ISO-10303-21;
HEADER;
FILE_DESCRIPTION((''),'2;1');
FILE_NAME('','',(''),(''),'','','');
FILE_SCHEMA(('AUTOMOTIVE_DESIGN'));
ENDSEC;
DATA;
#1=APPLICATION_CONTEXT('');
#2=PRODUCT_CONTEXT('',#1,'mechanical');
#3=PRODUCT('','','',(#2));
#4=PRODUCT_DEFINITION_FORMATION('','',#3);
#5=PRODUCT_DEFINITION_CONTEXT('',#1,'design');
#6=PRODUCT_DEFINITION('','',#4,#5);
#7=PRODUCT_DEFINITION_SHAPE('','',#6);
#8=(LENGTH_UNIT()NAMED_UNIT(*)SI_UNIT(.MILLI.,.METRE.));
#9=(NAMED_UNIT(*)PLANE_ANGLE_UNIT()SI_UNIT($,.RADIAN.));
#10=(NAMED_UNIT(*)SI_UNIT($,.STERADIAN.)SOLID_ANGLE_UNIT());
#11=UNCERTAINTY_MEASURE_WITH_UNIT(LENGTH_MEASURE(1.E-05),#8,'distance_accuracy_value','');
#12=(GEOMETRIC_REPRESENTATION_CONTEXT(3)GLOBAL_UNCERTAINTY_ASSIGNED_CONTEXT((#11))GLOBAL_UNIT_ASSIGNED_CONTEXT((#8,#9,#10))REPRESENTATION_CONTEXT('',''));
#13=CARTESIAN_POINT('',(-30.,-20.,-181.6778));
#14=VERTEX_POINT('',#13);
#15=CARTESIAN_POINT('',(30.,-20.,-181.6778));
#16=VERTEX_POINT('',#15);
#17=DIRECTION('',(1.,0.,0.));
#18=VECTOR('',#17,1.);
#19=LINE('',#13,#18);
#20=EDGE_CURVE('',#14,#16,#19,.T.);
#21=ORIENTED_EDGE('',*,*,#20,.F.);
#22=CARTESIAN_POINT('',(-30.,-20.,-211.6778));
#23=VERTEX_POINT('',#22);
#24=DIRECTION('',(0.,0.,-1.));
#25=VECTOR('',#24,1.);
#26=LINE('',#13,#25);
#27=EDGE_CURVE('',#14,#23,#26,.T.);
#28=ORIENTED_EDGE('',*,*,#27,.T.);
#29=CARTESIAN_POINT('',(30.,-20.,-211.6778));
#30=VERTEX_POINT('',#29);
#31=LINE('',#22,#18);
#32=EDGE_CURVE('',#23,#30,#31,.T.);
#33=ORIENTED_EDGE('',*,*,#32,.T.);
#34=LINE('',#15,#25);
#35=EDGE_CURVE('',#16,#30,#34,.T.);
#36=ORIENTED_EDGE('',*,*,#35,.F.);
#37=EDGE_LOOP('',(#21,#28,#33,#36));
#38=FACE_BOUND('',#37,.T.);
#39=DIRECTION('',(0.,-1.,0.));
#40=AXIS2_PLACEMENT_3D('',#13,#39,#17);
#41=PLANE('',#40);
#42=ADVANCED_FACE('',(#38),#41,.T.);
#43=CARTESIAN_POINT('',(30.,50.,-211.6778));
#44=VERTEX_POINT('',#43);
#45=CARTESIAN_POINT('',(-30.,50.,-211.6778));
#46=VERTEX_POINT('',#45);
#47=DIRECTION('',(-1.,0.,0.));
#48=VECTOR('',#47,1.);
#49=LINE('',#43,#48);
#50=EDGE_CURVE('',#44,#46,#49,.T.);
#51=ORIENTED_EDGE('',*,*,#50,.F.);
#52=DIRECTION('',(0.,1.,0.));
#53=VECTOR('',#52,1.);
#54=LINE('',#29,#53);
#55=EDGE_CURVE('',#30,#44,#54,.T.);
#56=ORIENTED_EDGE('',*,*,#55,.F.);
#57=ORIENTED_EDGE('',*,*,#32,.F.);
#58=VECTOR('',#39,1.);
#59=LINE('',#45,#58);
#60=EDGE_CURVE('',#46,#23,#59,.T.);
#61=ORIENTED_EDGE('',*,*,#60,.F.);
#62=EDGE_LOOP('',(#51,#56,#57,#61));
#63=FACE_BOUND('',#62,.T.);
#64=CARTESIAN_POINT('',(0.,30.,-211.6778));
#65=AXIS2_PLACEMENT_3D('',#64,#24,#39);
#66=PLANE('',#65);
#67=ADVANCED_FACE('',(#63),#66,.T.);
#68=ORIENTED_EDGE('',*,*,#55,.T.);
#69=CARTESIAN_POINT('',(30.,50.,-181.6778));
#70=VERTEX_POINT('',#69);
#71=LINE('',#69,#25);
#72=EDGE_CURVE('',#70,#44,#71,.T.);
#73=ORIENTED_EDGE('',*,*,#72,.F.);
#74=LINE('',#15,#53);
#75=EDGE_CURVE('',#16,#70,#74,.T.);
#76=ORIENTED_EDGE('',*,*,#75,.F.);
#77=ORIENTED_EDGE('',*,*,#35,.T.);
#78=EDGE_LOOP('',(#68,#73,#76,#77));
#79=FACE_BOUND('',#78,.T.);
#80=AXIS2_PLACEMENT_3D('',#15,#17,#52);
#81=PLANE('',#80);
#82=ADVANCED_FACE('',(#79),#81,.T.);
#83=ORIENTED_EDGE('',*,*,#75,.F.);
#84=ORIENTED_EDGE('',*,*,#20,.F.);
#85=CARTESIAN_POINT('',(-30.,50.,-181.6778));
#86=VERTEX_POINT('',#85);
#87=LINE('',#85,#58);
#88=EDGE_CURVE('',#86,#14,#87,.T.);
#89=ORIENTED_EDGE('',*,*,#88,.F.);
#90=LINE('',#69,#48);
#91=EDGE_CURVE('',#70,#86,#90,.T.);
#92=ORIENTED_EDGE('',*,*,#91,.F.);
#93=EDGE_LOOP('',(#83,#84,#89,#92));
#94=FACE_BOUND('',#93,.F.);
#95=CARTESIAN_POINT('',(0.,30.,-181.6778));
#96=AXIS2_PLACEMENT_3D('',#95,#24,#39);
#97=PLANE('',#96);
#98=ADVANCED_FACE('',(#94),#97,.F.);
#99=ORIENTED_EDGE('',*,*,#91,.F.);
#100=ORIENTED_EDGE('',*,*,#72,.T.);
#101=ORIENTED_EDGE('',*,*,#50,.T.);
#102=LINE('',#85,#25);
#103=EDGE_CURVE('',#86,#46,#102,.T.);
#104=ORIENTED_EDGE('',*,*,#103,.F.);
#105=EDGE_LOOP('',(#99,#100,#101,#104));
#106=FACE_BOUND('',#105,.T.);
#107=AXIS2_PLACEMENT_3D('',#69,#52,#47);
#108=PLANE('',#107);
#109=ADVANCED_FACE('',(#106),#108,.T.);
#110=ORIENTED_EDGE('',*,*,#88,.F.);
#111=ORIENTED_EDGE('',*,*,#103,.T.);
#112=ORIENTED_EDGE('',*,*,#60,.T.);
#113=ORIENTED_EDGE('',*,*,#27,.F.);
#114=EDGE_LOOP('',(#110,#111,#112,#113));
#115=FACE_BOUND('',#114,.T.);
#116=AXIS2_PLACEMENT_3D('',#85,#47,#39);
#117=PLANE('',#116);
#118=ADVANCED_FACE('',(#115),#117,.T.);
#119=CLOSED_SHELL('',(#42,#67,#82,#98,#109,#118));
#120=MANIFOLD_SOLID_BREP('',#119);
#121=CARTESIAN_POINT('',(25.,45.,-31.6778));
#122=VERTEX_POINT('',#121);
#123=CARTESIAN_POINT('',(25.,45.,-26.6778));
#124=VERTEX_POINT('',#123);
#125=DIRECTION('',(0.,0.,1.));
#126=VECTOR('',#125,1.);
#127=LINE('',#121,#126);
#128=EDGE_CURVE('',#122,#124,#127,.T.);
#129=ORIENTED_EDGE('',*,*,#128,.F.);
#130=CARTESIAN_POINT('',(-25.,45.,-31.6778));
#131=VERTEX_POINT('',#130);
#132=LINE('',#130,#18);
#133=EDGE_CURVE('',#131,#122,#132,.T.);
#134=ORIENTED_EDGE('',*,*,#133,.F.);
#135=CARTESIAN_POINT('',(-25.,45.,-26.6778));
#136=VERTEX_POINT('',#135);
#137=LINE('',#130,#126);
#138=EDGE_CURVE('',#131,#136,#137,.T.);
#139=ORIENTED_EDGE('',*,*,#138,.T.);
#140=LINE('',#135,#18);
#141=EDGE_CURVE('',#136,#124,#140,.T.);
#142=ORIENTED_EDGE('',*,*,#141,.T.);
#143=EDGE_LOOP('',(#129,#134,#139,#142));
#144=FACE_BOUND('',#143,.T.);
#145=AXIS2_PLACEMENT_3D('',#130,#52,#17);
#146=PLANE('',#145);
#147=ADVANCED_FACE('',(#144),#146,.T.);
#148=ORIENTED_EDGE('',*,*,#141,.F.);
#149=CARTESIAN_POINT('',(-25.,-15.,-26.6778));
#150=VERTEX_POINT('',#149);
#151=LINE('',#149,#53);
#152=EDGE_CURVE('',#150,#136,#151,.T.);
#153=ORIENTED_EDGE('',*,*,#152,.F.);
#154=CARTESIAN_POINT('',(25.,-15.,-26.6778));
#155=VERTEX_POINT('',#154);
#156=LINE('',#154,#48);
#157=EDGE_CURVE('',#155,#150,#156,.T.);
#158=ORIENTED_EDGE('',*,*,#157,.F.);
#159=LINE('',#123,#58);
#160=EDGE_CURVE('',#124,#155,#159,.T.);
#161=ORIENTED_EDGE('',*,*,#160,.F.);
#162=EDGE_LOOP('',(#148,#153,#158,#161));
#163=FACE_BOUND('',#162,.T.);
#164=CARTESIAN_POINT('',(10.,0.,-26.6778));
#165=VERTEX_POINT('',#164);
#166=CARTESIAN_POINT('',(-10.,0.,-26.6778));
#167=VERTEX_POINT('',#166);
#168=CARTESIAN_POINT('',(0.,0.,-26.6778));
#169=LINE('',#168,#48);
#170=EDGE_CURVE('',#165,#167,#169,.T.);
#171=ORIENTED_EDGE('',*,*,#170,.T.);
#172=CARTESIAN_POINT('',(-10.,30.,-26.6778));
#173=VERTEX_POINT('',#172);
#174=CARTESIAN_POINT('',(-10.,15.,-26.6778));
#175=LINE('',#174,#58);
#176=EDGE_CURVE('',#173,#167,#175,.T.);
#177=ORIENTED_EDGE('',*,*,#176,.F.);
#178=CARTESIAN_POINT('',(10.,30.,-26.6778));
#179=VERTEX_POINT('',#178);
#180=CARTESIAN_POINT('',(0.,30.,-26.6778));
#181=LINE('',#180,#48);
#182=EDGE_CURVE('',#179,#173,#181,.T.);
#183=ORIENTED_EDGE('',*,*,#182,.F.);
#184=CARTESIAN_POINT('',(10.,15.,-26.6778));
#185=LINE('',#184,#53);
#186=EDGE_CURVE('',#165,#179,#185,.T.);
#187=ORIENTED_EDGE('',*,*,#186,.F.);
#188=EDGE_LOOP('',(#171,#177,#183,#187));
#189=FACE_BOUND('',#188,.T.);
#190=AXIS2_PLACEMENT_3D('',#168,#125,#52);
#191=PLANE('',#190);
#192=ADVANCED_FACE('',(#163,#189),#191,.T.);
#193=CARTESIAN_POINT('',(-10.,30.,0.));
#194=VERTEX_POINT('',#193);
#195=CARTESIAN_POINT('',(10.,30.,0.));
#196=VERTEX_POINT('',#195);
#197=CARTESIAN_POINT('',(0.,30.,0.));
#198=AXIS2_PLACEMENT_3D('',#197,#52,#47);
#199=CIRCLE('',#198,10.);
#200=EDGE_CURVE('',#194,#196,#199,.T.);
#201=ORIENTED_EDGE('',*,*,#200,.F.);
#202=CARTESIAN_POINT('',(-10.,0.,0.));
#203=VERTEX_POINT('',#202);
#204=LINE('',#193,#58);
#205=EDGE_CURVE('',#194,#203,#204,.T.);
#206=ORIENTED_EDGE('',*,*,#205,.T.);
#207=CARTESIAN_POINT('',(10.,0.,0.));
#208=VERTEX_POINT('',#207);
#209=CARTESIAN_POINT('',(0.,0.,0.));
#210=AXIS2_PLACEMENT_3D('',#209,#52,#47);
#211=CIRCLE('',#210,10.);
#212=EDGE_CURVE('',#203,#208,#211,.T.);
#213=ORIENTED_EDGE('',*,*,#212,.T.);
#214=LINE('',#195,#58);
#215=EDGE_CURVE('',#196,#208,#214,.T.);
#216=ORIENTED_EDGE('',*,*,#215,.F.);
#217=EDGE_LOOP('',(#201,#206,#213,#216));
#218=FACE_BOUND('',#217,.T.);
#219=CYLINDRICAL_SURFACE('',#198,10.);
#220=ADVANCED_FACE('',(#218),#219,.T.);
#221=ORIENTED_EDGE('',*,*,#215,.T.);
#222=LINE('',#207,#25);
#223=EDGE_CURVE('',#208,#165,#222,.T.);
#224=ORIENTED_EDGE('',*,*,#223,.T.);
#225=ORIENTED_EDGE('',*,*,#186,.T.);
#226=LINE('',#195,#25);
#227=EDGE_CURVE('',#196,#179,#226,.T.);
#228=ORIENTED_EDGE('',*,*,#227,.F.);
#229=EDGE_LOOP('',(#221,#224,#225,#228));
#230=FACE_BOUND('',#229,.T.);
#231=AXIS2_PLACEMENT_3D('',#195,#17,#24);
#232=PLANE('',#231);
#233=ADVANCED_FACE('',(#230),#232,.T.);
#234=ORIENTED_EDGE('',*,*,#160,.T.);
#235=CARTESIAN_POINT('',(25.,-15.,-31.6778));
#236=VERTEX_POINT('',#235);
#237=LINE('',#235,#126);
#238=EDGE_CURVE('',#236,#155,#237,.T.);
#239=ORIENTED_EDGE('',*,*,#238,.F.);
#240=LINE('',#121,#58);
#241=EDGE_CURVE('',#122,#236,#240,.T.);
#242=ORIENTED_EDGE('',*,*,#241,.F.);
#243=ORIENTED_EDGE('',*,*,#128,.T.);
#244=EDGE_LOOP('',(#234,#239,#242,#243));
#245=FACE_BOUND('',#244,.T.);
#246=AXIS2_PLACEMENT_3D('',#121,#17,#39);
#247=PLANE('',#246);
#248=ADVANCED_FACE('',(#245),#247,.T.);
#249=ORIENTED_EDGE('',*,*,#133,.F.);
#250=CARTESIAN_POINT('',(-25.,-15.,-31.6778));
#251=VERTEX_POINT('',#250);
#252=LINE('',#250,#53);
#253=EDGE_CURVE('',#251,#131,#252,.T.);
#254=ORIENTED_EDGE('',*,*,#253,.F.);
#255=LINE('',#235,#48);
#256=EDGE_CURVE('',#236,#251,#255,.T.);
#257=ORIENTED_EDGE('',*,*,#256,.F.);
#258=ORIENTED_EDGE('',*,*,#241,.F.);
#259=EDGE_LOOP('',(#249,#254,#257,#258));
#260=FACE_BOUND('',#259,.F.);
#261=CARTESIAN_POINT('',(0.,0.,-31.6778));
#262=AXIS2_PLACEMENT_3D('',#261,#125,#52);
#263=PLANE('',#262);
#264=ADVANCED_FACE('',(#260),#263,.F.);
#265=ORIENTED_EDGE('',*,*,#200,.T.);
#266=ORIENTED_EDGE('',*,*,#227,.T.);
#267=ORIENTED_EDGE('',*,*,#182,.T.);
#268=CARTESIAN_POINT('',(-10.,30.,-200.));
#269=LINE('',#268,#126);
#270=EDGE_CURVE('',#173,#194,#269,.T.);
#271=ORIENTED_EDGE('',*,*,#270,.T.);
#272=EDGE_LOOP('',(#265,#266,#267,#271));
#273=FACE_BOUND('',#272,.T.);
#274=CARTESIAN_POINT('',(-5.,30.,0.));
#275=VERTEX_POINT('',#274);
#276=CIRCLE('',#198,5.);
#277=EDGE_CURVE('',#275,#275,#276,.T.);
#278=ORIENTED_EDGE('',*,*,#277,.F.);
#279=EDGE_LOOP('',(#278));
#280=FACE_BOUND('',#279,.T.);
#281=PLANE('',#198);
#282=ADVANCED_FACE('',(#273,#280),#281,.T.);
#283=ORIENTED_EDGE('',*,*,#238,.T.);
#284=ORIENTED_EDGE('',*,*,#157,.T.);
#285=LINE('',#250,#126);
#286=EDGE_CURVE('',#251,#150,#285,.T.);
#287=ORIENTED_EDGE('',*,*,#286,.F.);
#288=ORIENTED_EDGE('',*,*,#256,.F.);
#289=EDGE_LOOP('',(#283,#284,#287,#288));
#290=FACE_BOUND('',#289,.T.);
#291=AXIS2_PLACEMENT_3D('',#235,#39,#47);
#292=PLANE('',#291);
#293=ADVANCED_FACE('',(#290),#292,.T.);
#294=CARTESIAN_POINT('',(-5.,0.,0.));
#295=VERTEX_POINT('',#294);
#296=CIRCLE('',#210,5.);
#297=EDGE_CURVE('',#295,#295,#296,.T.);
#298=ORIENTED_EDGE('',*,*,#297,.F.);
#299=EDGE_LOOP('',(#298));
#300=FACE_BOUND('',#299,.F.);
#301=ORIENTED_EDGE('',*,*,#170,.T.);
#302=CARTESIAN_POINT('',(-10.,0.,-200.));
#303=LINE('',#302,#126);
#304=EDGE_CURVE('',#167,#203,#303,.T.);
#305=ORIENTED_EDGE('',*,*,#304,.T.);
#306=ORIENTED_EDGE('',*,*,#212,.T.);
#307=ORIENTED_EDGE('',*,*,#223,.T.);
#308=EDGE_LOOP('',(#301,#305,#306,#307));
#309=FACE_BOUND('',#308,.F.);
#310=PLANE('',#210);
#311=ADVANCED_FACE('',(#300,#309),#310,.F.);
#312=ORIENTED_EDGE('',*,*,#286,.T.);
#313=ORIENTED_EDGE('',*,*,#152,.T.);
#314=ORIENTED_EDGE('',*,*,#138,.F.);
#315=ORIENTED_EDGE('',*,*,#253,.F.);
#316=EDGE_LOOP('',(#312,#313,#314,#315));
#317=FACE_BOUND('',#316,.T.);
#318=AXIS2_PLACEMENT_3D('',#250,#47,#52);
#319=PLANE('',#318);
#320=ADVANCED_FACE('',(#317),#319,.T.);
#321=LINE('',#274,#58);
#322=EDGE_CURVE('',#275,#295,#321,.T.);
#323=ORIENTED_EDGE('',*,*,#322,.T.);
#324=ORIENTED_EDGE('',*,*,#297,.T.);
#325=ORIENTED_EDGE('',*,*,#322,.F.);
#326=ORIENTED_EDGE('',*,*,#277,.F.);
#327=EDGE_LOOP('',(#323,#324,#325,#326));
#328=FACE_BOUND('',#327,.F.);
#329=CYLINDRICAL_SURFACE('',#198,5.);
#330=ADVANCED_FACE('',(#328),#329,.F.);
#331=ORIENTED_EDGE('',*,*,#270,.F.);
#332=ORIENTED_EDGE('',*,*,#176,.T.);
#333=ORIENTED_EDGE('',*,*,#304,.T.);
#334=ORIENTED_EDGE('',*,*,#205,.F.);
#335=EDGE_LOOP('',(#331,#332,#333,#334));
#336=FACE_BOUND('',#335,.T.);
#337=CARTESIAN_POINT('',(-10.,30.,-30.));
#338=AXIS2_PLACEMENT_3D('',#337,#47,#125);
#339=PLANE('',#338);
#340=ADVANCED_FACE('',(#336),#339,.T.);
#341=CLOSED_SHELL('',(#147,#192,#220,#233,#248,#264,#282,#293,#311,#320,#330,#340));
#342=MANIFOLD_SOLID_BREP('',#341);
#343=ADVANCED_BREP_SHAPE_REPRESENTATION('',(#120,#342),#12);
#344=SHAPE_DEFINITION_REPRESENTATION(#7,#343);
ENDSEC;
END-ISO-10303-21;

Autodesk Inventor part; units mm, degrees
ref_plane "YZ Plane" through (0, 0, 0) normal (1, 0, 0) x (0, 1, 0)
ref_plane "XY Plane" through (0, 0, 0) normal (0, 0, 1) x (1, 0, 0)
sketch "Sketch1" plane through (0, 0, 0) normal (0, 1, 0) x (-1, 0, 0)
  line L0 (0, 0) -> (0, -200) construction
  line L1 (-10, 0) -> (-10, -200)
  line L2 (10, -200) -> (10, 0)
  arc A0 (10, 0) -> (-10, 0) centre (0, 0) ccw
  arc A1 (-10, -200) -> (10, -200) centre (0, -200) ccw
  point P0 (0, -100)
  dimension "d0" = 10
  dimension "d1" = 200
ref_plane "Work Plane1" through (0, 30, 0) normal (0, 1, 0) x (-1, 0, 0)
sketch "Sketch2" plane through (0, 30, 0) normal (0, 1, 0) x (-1, 0, 0)
  line L0 (10, -200) -> (10, 0) projected
  arc A0 (10, 0) -> (-10, 0) centre (0, 0) ccw projected
  line L1 (-10, 0) -> (-10, -200) projected
  arc A1 (-10, -200) -> (10, -200) centre (0, -200) ccw projected
  circle A2 centre (0, 0) radius 5
  line L2 (10, -30) -> (-10, -30)
  dimension "d20" = 10
  dimension "d21" = 30
ref_plane "Work Plane2" through (0, 30, -181.6778) normal (0, 0, -1) x (0, -1, 0)
sketch "Sketch4" plane through (0, 30, -181.6778) normal (0, 0, -1) x (0, -1, 0)
  line L0 (33.9, -13.0515) -> (33.9, -6.9485) construction
  line L1 (33.9, -6.9485) -> (36.2985, -4.55) construction
  line L2 (36.2985, -4.55) -> (38.2, -4.55) construction
  line L3 (38.2, -4.55) -> (38.2, -6.9) construction
  line L4 (38.2, -6.9) -> (39.1, -6.9) construction
  line L5 (39.1, -6.9) -> (39.1, -6.6) construction
  arc A0 (39.3, -6.4) -> (39.1, -6.6) centre (39.3, -6.6) ccw construction
  line L6 (39.3, -6.4) -> (40, -6.4) construction
  line L7 (40, -6.4) -> (40, 6.4) construction
  line L8 (40, 6.4) -> (39.3, 6.4) construction
  arc A1 (39.1, 6.6) -> (39.3, 6.4) centre (39.3, 6.6) ccw construction
  line L9 (39.1, 6.6) -> (39.1, 6.9) construction
  line L10 (39.1, 6.9) -> (38.2, 6.9) construction
  line L11 (38.2, 6.9) -> (38.2, 4.55) construction
  line L12 (38.2, 4.55) -> (36.2985, 4.55) construction
  line L13 (36.2985, 4.55) -> (33.9, 6.9485) construction
  line L14 (33.9, 6.9485) -> (33.9, 13.0515) construction
  line L15 (33.9, 13.0515) -> (36.2985, 15.45) construction
  line L16 (36.2985, 15.45) -> (38.2, 15.45) construction
  line L17 (38.2, 15.45) -> (38.2, 13.1) construction
  line L18 (38.2, 13.1) -> (39.1, 13.1) construction
  line L19 (39.1, 13.1) -> (39.1, 13.4) construction
  arc A2 (39.3, 13.6) -> (39.1, 13.4) centre (39.3, 13.4) ccw construction
  line L20 (39.3, 13.6) -> (40, 13.6) construction
  line L21 (40, 13.6) -> (40, 18.5) construction
  arc A3 (40, 18.5) -> (38.5, 20) centre (38.5, 18.5) ccw construction
  line L22 (38.5, 20) -> (33.6, 20) construction
  line L23 (33.6, 20) -> (33.6, 19.3) construction
  arc A4 (33.4, 19.1) -> (33.6, 19.3) centre (33.4, 19.3) ccw construction
  line L24 (33.4, 19.1) -> (33.1, 19.1) construction
  line L25 (33.1, 19.1) -> (33.1, 18.2) construction
  line L26 (33.1, 18.2) -> (35.45, 18.2) construction
  line L27 (35.45, 18.2) -> (35.45, 16.2985) construction
  line L28 (35.45, 16.2985) -> (33.0515, 13.9) construction
  line L29 (33.0515, 13.9) -> (26.9485, 13.9) construction
  line L30 (26.9485, 13.9) -> (24.55, 16.2985) construction
  line L31 (24.55, 16.2985) -> (24.55, 18.2) construction
  line L32 (24.55, 18.2) -> (26.9, 18.2) construction
  line L33 (26.9, 18.2) -> (26.9, 19.1) construction
  line L34 (26.9, 19.1) -> (26.6, 19.1) construction
  arc A5 (26.4, 19.3) -> (26.6, 19.1) centre (26.6, 19.3) ccw construction
  line L35 (26.4, 19.3) -> (26.4, 20) construction
  line L36 (26.4, 20) -> (21.5, 20) construction
  arc A6 (21.5, 20) -> (20, 18.5) centre (21.5, 18.5) ccw construction
  line L37 (20, 18.5) -> (20, 13.6) construction
  line L38 (20, 13.6) -> (20.7, 13.6) construction
  arc A7 (20.9, 13.4) -> (20.7, 13.6) centre (20.7, 13.4) ccw construction
  line L39 (20.9, 13.4) -> (20.9, 13.1) construction
  line L40 (20.9, 13.1) -> (21.8, 13.1) construction
  line L41 (21.8, 13.1) -> (21.8, 15.45) construction
  line L42 (21.8, 15.45) -> (23.7015, 15.45) construction
  line L43 (23.7015, 15.45) -> (26.0515, 13.1) construction
  line L44 (26.0515, 13.1) -> (26.0515, 6.9) construction
  line L45 (26.0515, 6.9) -> (23.7015, 4.55) construction
  line L46 (23.7015, 4.55) -> (21.8, 4.55) construction
  line L47 (21.8, 4.55) -> (21.8, 6.9) construction
  line L48 (21.8, 6.9) -> (20.9, 6.9) construction
  line L49 (20.9, 6.9) -> (20.9, 6.6) construction
  arc A8 (20.7, 6.4) -> (20.9, 6.6) centre (20.7, 6.6) ccw construction
  line L50 (20.7, 6.4) -> (20, 6.4) construction
  line L51 (20, 6.4) -> (20, -6.4) construction
  line L52 (20, -6.4) -> (20.7, -6.4) construction
  arc A9 (20.9, -6.6) -> (20.7, -6.4) centre (20.7, -6.6) ccw construction
  line L53 (20.9, -6.6) -> (20.9, -6.9) construction
  line L54 (20.9, -6.9) -> (21.8, -6.9) construction
  line L55 (21.8, -6.9) -> (21.8, -4.55) construction
  line L56 (21.8, -4.55) -> (23.7015, -4.55) construction
  line L57 (23.7015, -4.55) -> (26.0515, -6.9) construction
  line L58 (26.0515, -6.9) -> (26.0515, -13.1) construction
  line L59 (26.0515, -13.1) -> (23.7015, -15.45) construction
  line L60 (23.7015, -15.45) -> (21.8, -15.45) construction
  line L61 (21.8, -15.45) -> (21.8, -13.1) construction
  line L62 (21.8, -13.1) -> (20.9, -13.1) construction
  line L63 (20.9, -13.1) -> (20.9, -13.4) construction
  arc A10 (20.7, -13.6) -> (20.9, -13.4) centre (20.7, -13.4) ccw construction
  line L64 (20.7, -13.6) -> (20, -13.6) construction
  line L65 (20, -13.6) -> (20, -18.5) construction
  arc A11 (20, -18.5) -> (21.5, -20) centre (21.5, -18.5) ccw construction
  line L66 (21.5, -20) -> (26.4, -20) construction
  line L67 (26.4, -20) -> (26.4, -19.3) construction
  arc A12 (26.6, -19.1) -> (26.4, -19.3) centre (26.6, -19.3) ccw construction
  line L68 (26.6, -19.1) -> (26.9, -19.1) construction
  line L69 (26.9, -19.1) -> (26.9, -18.2) construction
  line L70 (26.9, -18.2) -> (24.55, -18.2) construction
  line L71 (24.55, -18.2) -> (24.55, -16.2985) construction
  line L72 (24.55, -16.2985) -> (26.9485, -13.9) construction
  line L73 (26.9485, -13.9) -> (33.0515, -13.9) construction
  line L74 (33.0515, -13.9) -> (35.45, -16.2985) construction
  line L75 (35.45, -16.2985) -> (35.45, -18.2) construction
  line L76 (35.45, -18.2) -> (33.1, -18.2) construction
  line L77 (33.1, -18.2) -> (33.1, -19.1) construction
  line L78 (33.1, -19.1) -> (33.4, -19.1) construction
  arc A13 (33.6, -19.3) -> (33.4, -19.1) centre (33.4, -19.3) ccw construction
  line L79 (33.6, -19.3) -> (33.6, -20) construction
  line L80 (33.6, -20) -> (38.5, -20) construction
  arc A14 (38.5, -20) -> (40, -18.5) centre (38.5, -18.5) ccw construction
  line L81 (40, -18.5) -> (40, -13.6) construction
  line L82 (40, -13.6) -> (39.3, -13.6) construction
  arc A15 (39.1, -13.4) -> (39.3, -13.6) centre (39.3, -13.4) ccw construction
  line L83 (39.1, -13.4) -> (39.1, -13.1) construction
  line L84 (39.1, -13.1) -> (38.2, -13.1) construction
  line L85 (38.2, -13.1) -> (38.2, -15.45) construction
  line L86 (38.2, -15.45) -> (36.2985, -15.45) construction
  line L87 (36.2985, -15.45) -> (33.9, -13.0515) construction
  circle A16 centre (30, 10) radius 2.5 construction
  circle A17 centre (30, -10) radius 2.5 construction
  line L88 (33.0515, 6.1) -> (35.8015, 3.35) construction
  line L89 (35.8015, 3.35) -> (38.2, 3.35) construction
  line L90 (38.2, 3.35) -> (38.2, -3.35) construction
  line L91 (38.2, -3.35) -> (35.8015, -3.35) construction
  line L92 (35.8015, -3.35) -> (33.0515, -6.1) construction
  line L93 (33.0515, -6.1) -> (26.9485, -6.1) construction
  line L94 (26.9485, -6.1) -> (24.1985, -3.35) construction
  line L95 (24.1985, -3.35) -> (21.8, -3.35) construction
  line L96 (21.8, -3.35) -> (21.8, 3.35) construction
  line L97 (21.8, 3.35) -> (24.1985, 3.35) construction
  line L98 (24.1985, 3.35) -> (26.9485, 6.1) construction
  line L99 (26.9485, 6.1) -> (33.0515, 6.1) construction
  line L100 (3.9, -13.0515) -> (3.9, -6.9485) construction
  line L101 (3.9, -6.9485) -> (6.2985, -4.55) construction
  line L102 (6.2985, -4.55) -> (8.2, -4.55) construction
  line L103 (8.2, -4.55) -> (8.2, -6.9) construction
  line L104 (8.2, -6.9) -> (9.1, -6.9) construction
  line L105 (9.1, -6.9) -> (9.1, -6.6) construction
  arc A18 (9.3, -6.4) -> (9.1, -6.6) centre (9.3, -6.6) ccw construction
  line L106 (9.3, -6.4) -> (10, -6.4) construction
  line L107 (10, -6.4) -> (10, 6.4) construction
  line L108 (10, 6.4) -> (9.3, 6.4) construction
  arc A19 (9.1, 6.6) -> (9.3, 6.4) centre (9.3, 6.6) ccw construction
  line L109 (9.1, 6.6) -> (9.1, 6.9) construction
  line L110 (9.1, 6.9) -> (8.2, 6.9) construction
  line L111 (8.2, 6.9) -> (8.2, 4.55) construction
  line L112 (8.2, 4.55) -> (6.2985, 4.55) construction
  line L113 (6.2985, 4.55) -> (3.9, 6.9485) construction
  line L114 (3.9, 6.9485) -> (3.9, 13.0515) construction
  line L115 (3.9, 13.0515) -> (6.2985, 15.45) construction
  line L116 (6.2985, 15.45) -> (8.2, 15.45) construction
  line L117 (8.2, 15.45) -> (8.2, 13.1) construction
  line L118 (8.2, 13.1) -> (9.1, 13.1) construction
  line L119 (9.1, 13.1) -> (9.1, 13.4) construction
  arc A20 (9.3, 13.6) -> (9.1, 13.4) centre (9.3, 13.4) ccw construction
  line L120 (9.3, 13.6) -> (10, 13.6) construction
  line L121 (10, 13.6) -> (10, 18.5) construction
  arc A21 (10, 18.5) -> (8.5, 20) centre (8.5, 18.5) ccw construction
  line L122 (8.5, 20) -> (3.6, 20) construction
  line L123 (3.6, 20) -> (3.6, 19.3) construction
  arc A22 (3.4, 19.1) -> (3.6, 19.3) centre (3.4, 19.3) ccw construction
  line L124 (3.4, 19.1) -> (3.1, 19.1) construction
  line L125 (3.1, 19.1) -> (3.1, 18.2) construction
  line L126 (3.1, 18.2) -> (5.45, 18.2) construction
  line L127 (5.45, 18.2) -> (5.45, 16.2985) construction
  line L128 (5.45, 16.2985) -> (3.0515, 13.9) construction
  line L129 (3.0515, 13.9) -> (-3.0515, 13.9) construction
  line L130 (-3.0515, 13.9) -> (-5.45, 16.2985) construction
  line L131 (-5.45, 16.2985) -> (-5.45, 18.2) construction
  line L132 (-5.45, 18.2) -> (-3.1, 18.2) construction
  line L133 (-3.1, 18.2) -> (-3.1, 19.1) construction
  line L134 (-3.1, 19.1) -> (-3.4, 19.1) construction
  arc A23 (-3.6, 19.3) -> (-3.4, 19.1) centre (-3.4, 19.3) ccw construction
  line L135 (-3.6, 19.3) -> (-3.6, 20) construction
  line L136 (-3.6, 20) -> (-8.5, 20) construction
  arc A24 (-8.5, 20) -> (-10, 18.5) centre (-8.5, 18.5) ccw construction
  line L137 (-10, 18.5) -> (-10, 13.6) construction
  line L138 (-10, 13.6) -> (-9.3, 13.6) construction
  arc A25 (-9.1, 13.4) -> (-9.3, 13.6) centre (-9.3, 13.4) ccw construction
  line L139 (-9.1, 13.4) -> (-9.1, 13.1) construction
  line L140 (-9.1, 13.1) -> (-8.2, 13.1) construction
  line L141 (-8.2, 13.1) -> (-8.2, 15.45) construction
  line L142 (-8.2, 15.45) -> (-6.2985, 15.45) construction
  line L143 (-6.2985, 15.45) -> (-3.9485, 13.1) construction
  line L144 (-3.9485, 13.1) -> (-3.9485, 6.9) construction
  line L145 (-3.9485, 6.9) -> (-6.2985, 4.55) construction
  line L146 (-6.2985, 4.55) -> (-8.2, 4.55) construction
  line L147 (-8.2, 4.55) -> (-8.2, 6.9) construction
  line L148 (-8.2, 6.9) -> (-9.1, 6.9) construction
  line L149 (-9.1, 6.9) -> (-9.1, 6.6) construction
  arc A26 (-9.3, 6.4) -> (-9.1, 6.6) centre (-9.3, 6.6) ccw construction
  line L150 (-9.3, 6.4) -> (-10, 6.4) construction
  line L151 (-10, 6.4) -> (-10, -6.4) construction
  line L152 (-10, -6.4) -> (-9.3, -6.4) construction
  arc A27 (-9.1, -6.6) -> (-9.3, -6.4) centre (-9.3, -6.6) ccw construction
  line L153 (-9.1, -6.6) -> (-9.1, -6.9) construction
  line L154 (-9.1, -6.9) -> (-8.2, -6.9) construction
  line L155 (-8.2, -6.9) -> (-8.2, -4.55) construction
  line L156 (-8.2, -4.55) -> (-6.2985, -4.55) construction
  line L157 (-6.2985, -4.55) -> (-3.9485, -6.9) construction
  line L158 (-3.9485, -6.9) -> (-3.9485, -13.1) construction
  line L159 (-3.9485, -13.1) -> (-6.2985, -15.45) construction
  line L160 (-6.2985, -15.45) -> (-8.2, -15.45) construction
  line L161 (-8.2, -15.45) -> (-8.2, -13.1) construction
  line L162 (-8.2, -13.1) -> (-9.1, -13.1) construction
  line L163 (-9.1, -13.1) -> (-9.1, -13.4) construction
  arc A28 (-9.3, -13.6) -> (-9.1, -13.4) centre (-9.3, -13.4) ccw construction
  line L164 (-9.3, -13.6) -> (-10, -13.6) construction
  line L165 (-10, -13.6) -> (-10, -18.5) construction
  arc A29 (-10, -18.5) -> (-8.5, -20) centre (-8.5, -18.5) ccw construction
  line L166 (-8.5, -20) -> (-3.6, -20) construction
  line L167 (-3.6, -20) -> (-3.6, -19.3) construction
  arc A30 (-3.4, -19.1) -> (-3.6, -19.3) centre (-3.4, -19.3) ccw construction
  line L168 (-3.4, -19.1) -> (-3.1, -19.1) construction
  line L169 (-3.1, -19.1) -> (-3.1, -18.2) construction
  line L170 (-3.1, -18.2) -> (-5.45, -18.2) construction
  line L171 (-5.45, -18.2) -> (-5.45, -16.2985) construction
  line L172 (-5.45, -16.2985) -> (-3.0515, -13.9) construction
  line L173 (-3.0515, -13.9) -> (3.0515, -13.9) construction
  line L174 (3.0515, -13.9) -> (5.45, -16.2985) construction
  line L175 (5.45, -16.2985) -> (5.45, -18.2) construction
  line L176 (5.45, -18.2) -> (3.1, -18.2) construction
  line L177 (3.1, -18.2) -> (3.1, -19.1) construction
  line L178 (3.1, -19.1) -> (3.4, -19.1) construction
  arc A31 (3.6, -19.3) -> (3.4, -19.1) centre (3.4, -19.3) ccw construction
  line L179 (3.6, -19.3) -> (3.6, -20) construction
  line L180 (3.6, -20) -> (8.5, -20) construction
  arc A32 (8.5, -20) -> (10, -18.5) centre (8.5, -18.5) ccw construction
  line L181 (10, -18.5) -> (10, -13.6) construction
  line L182 (10, -13.6) -> (9.3, -13.6) construction
  arc A33 (9.1, -13.4) -> (9.3, -13.6) centre (9.3, -13.4) ccw construction
  line L183 (9.1, -13.4) -> (9.1, -13.1) construction
  line L184 (9.1, -13.1) -> (8.2, -13.1) construction
  line L185 (8.2, -13.1) -> (8.2, -15.45) construction
  line L186 (8.2, -15.45) -> (6.2985, -15.45) construction
  line L187 (6.2985, -15.45) -> (3.9, -13.0515) construction
  circle A34 centre (0, 10) radius 2.5 construction
  circle A35 centre (0, -10) radius 2.5 construction
  line L188 (3.0515, 6.1) -> (5.8015, 3.35) construction
  line L189 (5.8015, 3.35) -> (8.2, 3.35) construction
  line L190 (8.2, 3.35) -> (8.2, -3.35) construction
  line L191 (8.2, -3.35) -> (5.8015, -3.35) construction
  line L192 (5.8015, -3.35) -> (3.0515, -6.1) construction
  line L193 (3.0515, -6.1) -> (-3.0515, -6.1) construction
  line L194 (-3.0515, -6.1) -> (-5.8015, -3.35) construction
  line L195 (-5.8015, -3.35) -> (-8.2, -3.35) construction
  line L196 (-8.2, -3.35) -> (-8.2, 3.35) construction
  line L197 (-8.2, 3.35) -> (-5.8015, 3.35) construction
  line L198 (-5.8015, 3.35) -> (-3.0515, 6.1) construction
  line L199 (-3.0515, 6.1) -> (3.0515, 6.1) construction
  line L200 (-3.6, 20) -> (33.6, 20) construction
  line L201 (40, 13.6) -> (40, -13.6) construction
  line L202 (33.6, -20) -> (-3.6, -20) construction
  line L203 (-10, -13.6) -> (-10, 13.6) construction
  line L204 (-20, 30) -> (50, 30)
  line L205 (50, 30) -> (50, -30)
  line L206 (50, -30) -> (-20, -30)
  line L207 (-20, -30) -> (-20, 30)
  point P0 (30, 0)
  dimension "d7" = 10
  dimension "d8" = 10
  dimension "d9" = 10
  dimension "d10" = 10
extrude "Extrusion2" add sketch "Sketch4" along normal blind 30
ref_plane "Work Plane3" through (0, 0, -31.6778) normal (0, 0, 1) x (0, 1, 0)
sketch "Sketch5" plane through (0, 0, -31.6778) normal (0, 0, 1) x (0, 1, 0)
  line L0 (-15, 25) -> (45, 25)
  line L1 (45, 25) -> (45, -25)
  line L2 (45, -25) -> (-15, -25)
  line L3 (-15, -25) -> (-15, 25)
  line L4 (26.1, -6.9485) -> (26.1, -13.0515) construction
  line L5 (26.1, -13.0515) -> (23.7015, -15.45) construction
  line L6 (23.7015, -15.45) -> (21.8, -15.45) construction
  line L7 (21.8, -15.45) -> (21.8, -13.1) construction
  line L8 (21.8, -13.1) -> (20.9, -13.1) construction
  line L9 (20.9, -13.1) -> (20.9, -13.4) construction
  arc A0 (20.7, -13.6) -> (20.9, -13.4) centre (20.7, -13.4) ccw construction
  line L10 (20.7, -13.6) -> (20, -13.6) construction
  line L11 (20, -13.6) -> (20, -18.5) construction
  arc A1 (20, -18.5) -> (21.5, -20) centre (21.5, -18.5) ccw construction
  line L12 (21.5, -20) -> (26.4, -20) construction
  line L13 (26.4, -20) -> (26.4, -19.3) construction
  arc A2 (26.6, -19.1) -> (26.4, -19.3) centre (26.6, -19.3) ccw construction
  line L14 (26.6, -19.1) -> (26.9, -19.1) construction
  line L15 (26.9, -19.1) -> (26.9, -18.2) construction
  line L16 (26.9, -18.2) -> (24.55, -18.2) construction
  line L17 (24.55, -18.2) -> (24.55, -16.2985) construction
  line L18 (24.55, -16.2985) -> (26.9485, -13.9) construction
  line L19 (26.9485, -13.9) -> (33.0515, -13.9) construction
  line L20 (33.0515, -13.9) -> (35.45, -16.2985) construction
  line L21 (35.45, -16.2985) -> (35.45, -18.2) construction
  line L22 (35.45, -18.2) -> (33.1, -18.2) construction
  line L23 (33.1, -18.2) -> (33.1, -19.1) construction
  line L24 (33.1, -19.1) -> (33.4, -19.1) construction
  arc A3 (33.6, -19.3) -> (33.4, -19.1) centre (33.4, -19.3) ccw construction
  line L25 (33.6, -19.3) -> (33.6, -20) construction
  line L26 (33.6, -20) -> (38.5, -20) construction
  arc A4 (38.5, -20) -> (40, -18.5) centre (38.5, -18.5) ccw construction
  line L27 (40, -18.5) -> (40, -13.6) construction
  line L28 (40, -13.6) -> (39.3, -13.6) construction
  arc A5 (39.1, -13.4) -> (39.3, -13.6) centre (39.3, -13.4) ccw construction
  line L29 (39.1, -13.4) -> (39.1, -13.1) construction
  line L30 (39.1, -13.1) -> (38.2, -13.1) construction
  line L31 (38.2, -13.1) -> (38.2, -15.45) construction
  line L32 (38.2, -15.45) -> (36.2985, -15.45) construction
  line L33 (36.2985, -15.45) -> (33.9485, -13.1) construction
  line L34 (33.9485, -13.1) -> (33.9485, -6.9) construction
  line L35 (33.9485, -6.9) -> (36.2985, -4.55) construction
  line L36 (36.2985, -4.55) -> (38.2, -4.55) construction
  line L37 (38.2, -4.55) -> (38.2, -6.9) construction
  line L38 (38.2, -6.9) -> (39.1, -6.9) construction
  line L39 (39.1, -6.9) -> (39.1, -6.6) construction
  arc A6 (39.3, -6.4) -> (39.1, -6.6) centre (39.3, -6.6) ccw construction
  line L40 (39.3, -6.4) -> (40, -6.4) construction
  line L41 (40, -6.4) -> (40, 6.4) construction
  line L42 (40, 6.4) -> (39.3, 6.4) construction
  arc A7 (39.1, 6.6) -> (39.3, 6.4) centre (39.3, 6.6) ccw construction
  line L43 (39.1, 6.6) -> (39.1, 6.9) construction
  line L44 (39.1, 6.9) -> (38.2, 6.9) construction
  line L45 (38.2, 6.9) -> (38.2, 4.55) construction
  line L46 (38.2, 4.55) -> (36.2985, 4.55) construction
  line L47 (36.2985, 4.55) -> (33.9485, 6.9) construction
  line L48 (33.9485, 6.9) -> (33.9485, 13.1) construction
  line L49 (33.9485, 13.1) -> (36.2985, 15.45) construction
  line L50 (36.2985, 15.45) -> (38.2, 15.45) construction
  line L51 (38.2, 15.45) -> (38.2, 13.1) construction
  line L52 (38.2, 13.1) -> (39.1, 13.1) construction
  line L53 (39.1, 13.1) -> (39.1, 13.4) construction
  arc A8 (39.3, 13.6) -> (39.1, 13.4) centre (39.3, 13.4) ccw construction
  line L54 (39.3, 13.6) -> (40, 13.6) construction
  line L55 (40, 13.6) -> (40, 18.5) construction
  arc A9 (40, 18.5) -> (38.5, 20) centre (38.5, 18.5) ccw construction
  line L56 (38.5, 20) -> (33.6, 20) construction
  line L57 (33.6, 20) -> (33.6, 19.3) construction
  arc A10 (33.4, 19.1) -> (33.6, 19.3) centre (33.4, 19.3) ccw construction
  line L58 (33.4, 19.1) -> (33.1, 19.1) construction
  line L59 (33.1, 19.1) -> (33.1, 18.2) construction
  line L60 (33.1, 18.2) -> (35.45, 18.2) construction
  line L61 (35.45, 18.2) -> (35.45, 16.2985) construction
  line L62 (35.45, 16.2985) -> (33.0515, 13.9) construction
  line L63 (33.0515, 13.9) -> (26.9485, 13.9) construction
  line L64 (26.9485, 13.9) -> (24.55, 16.2985) construction
  line L65 (24.55, 16.2985) -> (24.55, 18.2) construction
  line L66 (24.55, 18.2) -> (26.9, 18.2) construction
  line L67 (26.9, 18.2) -> (26.9, 19.1) construction
  line L68 (26.9, 19.1) -> (26.6, 19.1) construction
  arc A11 (26.4, 19.3) -> (26.6, 19.1) centre (26.6, 19.3) ccw construction
  line L69 (26.4, 19.3) -> (26.4, 20) construction
  line L70 (26.4, 20) -> (21.5, 20) construction
  arc A12 (21.5, 20) -> (20, 18.5) centre (21.5, 18.5) ccw construction
  line L71 (20, 18.5) -> (20, 13.6) construction
  line L72 (20, 13.6) -> (20.7, 13.6) construction
  arc A13 (20.9, 13.4) -> (20.7, 13.6) centre (20.7, 13.4) ccw construction
  line L73 (20.9, 13.4) -> (20.9, 13.1) construction
  line L74 (20.9, 13.1) -> (21.8, 13.1) construction
  line L75 (21.8, 13.1) -> (21.8, 15.45) construction
  line L76 (21.8, 15.45) -> (23.7015, 15.45) construction
  line L77 (23.7015, 15.45) -> (26.1, 13.0515) construction
  line L78 (26.1, 13.0515) -> (26.1, 6.9485) construction
  line L79 (26.1, 6.9485) -> (23.7015, 4.55) construction
  line L80 (23.7015, 4.55) -> (21.8, 4.55) construction
  line L81 (21.8, 4.55) -> (21.8, 6.9) construction
  line L82 (21.8, 6.9) -> (20.9, 6.9) construction
  line L83 (20.9, 6.9) -> (20.9, 6.6) construction
  arc A14 (20.7, 6.4) -> (20.9, 6.6) centre (20.7, 6.6) ccw construction
  line L84 (20.7, 6.4) -> (20, 6.4) construction
  line L85 (20, 6.4) -> (20, -6.4) construction
  line L86 (20, -6.4) -> (20.7, -6.4) construction
  arc A15 (20.9, -6.6) -> (20.7, -6.4) centre (20.7, -6.6) ccw construction
  line L87 (20.9, -6.6) -> (20.9, -6.9) construction
  line L88 (20.9, -6.9) -> (21.8, -6.9) construction
  line L89 (21.8, -6.9) -> (21.8, -4.55) construction
  line L90 (21.8, -4.55) -> (23.7015, -4.55) construction
  line L91 (23.7015, -4.55) -> (26.1, -6.9485) construction
  circle A16 centre (30, 10) radius 2.5 construction
  circle A17 centre (30, -10) radius 2.5 construction
  line L92 (24.1985, 3.35) -> (26.9485, 6.1) construction
  line L93 (26.9485, 6.1) -> (33.0515, 6.1) construction
  line L94 (33.0515, 6.1) -> (35.8015, 3.35) construction
  line L95 (35.8015, 3.35) -> (38.2, 3.35) construction
  line L96 (38.2, 3.35) -> (38.2, -3.35) construction
  line L97 (38.2, -3.35) -> (35.8015, -3.35) construction
  line L98 (35.8015, -3.35) -> (33.0515, -6.1) construction
  line L99 (33.0515, -6.1) -> (26.9485, -6.1) construction
  line L100 (26.9485, -6.1) -> (24.1985, -3.35) construction
  line L101 (24.1985, -3.35) -> (21.8, -3.35) construction
  line L102 (21.8, -3.35) -> (21.8, 3.35) construction
  line L103 (21.8, 3.35) -> (24.1985, 3.35) construction
  line L104 (-3.9, -6.9485) -> (-3.9, -13.0515) construction
  line L105 (-3.9, -13.0515) -> (-6.2985, -15.45) construction
  line L106 (-6.2985, -15.45) -> (-8.2, -15.45) construction
  line L107 (-8.2, -15.45) -> (-8.2, -13.1) construction
  line L108 (-8.2, -13.1) -> (-9.1, -13.1) construction
  line L109 (-9.1, -13.1) -> (-9.1, -13.4) construction
  arc A18 (-9.3, -13.6) -> (-9.1, -13.4) centre (-9.3, -13.4) ccw construction
  line L110 (-9.3, -13.6) -> (-10, -13.6) construction
  line L111 (-10, -13.6) -> (-10, -18.5) construction
  arc A19 (-10, -18.5) -> (-8.5, -20) centre (-8.5, -18.5) ccw construction
  line L112 (-8.5, -20) -> (-3.6, -20) construction
  line L113 (-3.6, -20) -> (-3.6, -19.3) construction
  arc A20 (-3.4, -19.1) -> (-3.6, -19.3) centre (-3.4, -19.3) ccw construction
  line L114 (-3.4, -19.1) -> (-3.1, -19.1) construction
  line L115 (-3.1, -19.1) -> (-3.1, -18.2) construction
  line L116 (-3.1, -18.2) -> (-5.45, -18.2) construction
  line L117 (-5.45, -18.2) -> (-5.45, -16.2985) construction
  line L118 (-5.45, -16.2985) -> (-3.0515, -13.9) construction
  line L119 (-3.0515, -13.9) -> (3.0515, -13.9) construction
  line L120 (3.0515, -13.9) -> (5.45, -16.2985) construction
  line L121 (5.45, -16.2985) -> (5.45, -18.2) construction
  line L122 (5.45, -18.2) -> (3.1, -18.2) construction
  line L123 (3.1, -18.2) -> (3.1, -19.1) construction
  line L124 (3.1, -19.1) -> (3.4, -19.1) construction
  arc A21 (3.6, -19.3) -> (3.4, -19.1) centre (3.4, -19.3) ccw construction
  line L125 (3.6, -19.3) -> (3.6, -20) construction
  line L126 (3.6, -20) -> (8.5, -20) construction
  arc A22 (8.5, -20) -> (10, -18.5) centre (8.5, -18.5) ccw construction
  line L127 (10, -18.5) -> (10, -13.6) construction
  line L128 (10, -13.6) -> (9.3, -13.6) construction
  arc A23 (9.1, -13.4) -> (9.3, -13.6) centre (9.3, -13.4) ccw construction
  line L129 (9.1, -13.4) -> (9.1, -13.1) construction
  line L130 (9.1, -13.1) -> (8.2, -13.1) construction
  line L131 (8.2, -13.1) -> (8.2, -15.45) construction
  line L132 (8.2, -15.45) -> (6.2985, -15.45) construction
  line L133 (6.2985, -15.45) -> (3.9485, -13.1) construction
  line L134 (3.9485, -13.1) -> (3.9485, -6.9) construction
  line L135 (3.9485, -6.9) -> (6.2985, -4.55) construction
  line L136 (6.2985, -4.55) -> (8.2, -4.55) construction
  line L137 (8.2, -4.55) -> (8.2, -6.9) construction
  line L138 (8.2, -6.9) -> (9.1, -6.9) construction
  line L139 (9.1, -6.9) -> (9.1, -6.6) construction
  arc A24 (9.3, -6.4) -> (9.1, -6.6) centre (9.3, -6.6) ccw construction
  line L140 (9.3, -6.4) -> (10, -6.4) construction
  line L141 (10, -6.4) -> (10, 6.4) construction
  line L142 (10, 6.4) -> (9.3, 6.4) construction
  arc A25 (9.1, 6.6) -> (9.3, 6.4) centre (9.3, 6.6) ccw construction
  line L143 (9.1, 6.6) -> (9.1, 6.9) construction
  line L144 (9.1, 6.9) -> (8.2, 6.9) construction
  line L145 (8.2, 6.9) -> (8.2, 4.55) construction
  line L146 (8.2, 4.55) -> (6.2985, 4.55) construction
  line L147 (6.2985, 4.55) -> (3.9485, 6.9) construction
  line L148 (3.9485, 6.9) -> (3.9485, 13.1) construction
  line L149 (3.9485, 13.1) -> (6.2985, 15.45) construction
  line L150 (6.2985, 15.45) -> (8.2, 15.45) construction
  line L151 (8.2, 15.45) -> (8.2, 13.1) construction
  line L152 (8.2, 13.1) -> (9.1, 13.1) construction
  line L153 (9.1, 13.1) -> (9.1, 13.4) construction
  arc A26 (9.3, 13.6) -> (9.1, 13.4) centre (9.3, 13.4) ccw construction
  line L154 (9.3, 13.6) -> (10, 13.6) construction
  line L155 (10, 13.6) -> (10, 18.5) construction
  arc A27 (10, 18.5) -> (8.5, 20) centre (8.5, 18.5) ccw construction
  line L156 (8.5, 20) -> (3.6, 20) construction
  line L157 (3.6, 20) -> (3.6, 19.3) construction
  arc A28 (3.4, 19.1) -> (3.6, 19.3) centre (3.4, 19.3) ccw construction
  line L158 (3.4, 19.1) -> (3.1, 19.1) construction
  line L159 (3.1, 19.1) -> (3.1, 18.2) construction
  line L160 (3.1, 18.2) -> (5.45, 18.2) construction
  line L161 (5.45, 18.2) -> (5.45, 16.2985) construction
  line L162 (5.45, 16.2985) -> (3.0515, 13.9) construction
  line L163 (3.0515, 13.9) -> (-3.0515, 13.9) construction
  line L164 (-3.0515, 13.9) -> (-5.45, 16.2985) construction
  line L165 (-5.45, 16.2985) -> (-5.45, 18.2) construction
  line L166 (-5.45, 18.2) -> (-3.1, 18.2) construction
  line L167 (-3.1, 18.2) -> (-3.1, 19.1) construction
  line L168 (-3.1, 19.1) -> (-3.4, 19.1) construction
  arc A29 (-3.6, 19.3) -> (-3.4, 19.1) centre (-3.4, 19.3) ccw construction
  line L169 (-3.6, 19.3) -> (-3.6, 20) construction
  line L170 (-3.6, 20) -> (-8.5, 20) construction
  arc A30 (-8.5, 20) -> (-10, 18.5) centre (-8.5, 18.5) ccw construction
  line L171 (-10, 18.5) -> (-10, 13.6) construction
  line L172 (-10, 13.6) -> (-9.3, 13.6) construction
  arc A31 (-9.1, 13.4) -> (-9.3, 13.6) centre (-9.3, 13.4) ccw construction
  line L173 (-9.1, 13.4) -> (-9.1, 13.1) construction
  line L174 (-9.1, 13.1) -> (-8.2, 13.1) construction
  line L175 (-8.2, 13.1) -> (-8.2, 15.45) construction
  line L176 (-8.2, 15.45) -> (-6.2985, 15.45) construction
  line L177 (-6.2985, 15.45) -> (-3.9, 13.0515) construction
  line L178 (-3.9, 13.0515) -> (-3.9, 6.9485) construction
  line L179 (-3.9, 6.9485) -> (-6.2985, 4.55) construction
  line L180 (-6.2985, 4.55) -> (-8.2, 4.55) construction
  line L181 (-8.2, 4.55) -> (-8.2, 6.9) construction
  line L182 (-8.2, 6.9) -> (-9.1, 6.9) construction
  line L183 (-9.1, 6.9) -> (-9.1, 6.6) construction
  arc A32 (-9.3, 6.4) -> (-9.1, 6.6) centre (-9.3, 6.6) ccw construction
  line L184 (-9.3, 6.4) -> (-10, 6.4) construction
  line L185 (-10, 6.4) -> (-10, -6.4) construction
  line L186 (-10, -6.4) -> (-9.3, -6.4) construction
  arc A33 (-9.1, -6.6) -> (-9.3, -6.4) centre (-9.3, -6.6) ccw construction
  line L187 (-9.1, -6.6) -> (-9.1, -6.9) construction
  line L188 (-9.1, -6.9) -> (-8.2, -6.9) construction
  line L189 (-8.2, -6.9) -> (-8.2, -4.55) construction
  line L190 (-8.2, -4.55) -> (-6.2985, -4.55) construction
  line L191 (-6.2985, -4.55) -> (-3.9, -6.9485) construction
  circle A34 centre (0, 10) radius 2.5 construction
  circle A35 centre (0, -10) radius 2.5 construction
  line L192 (-5.8015, 3.35) -> (-3.0515, 6.1) construction
  line L193 (-3.0515, 6.1) -> (3.0515, 6.1) construction
  line L194 (3.0515, 6.1) -> (5.8015, 3.35) construction
  line L195 (5.8015, 3.35) -> (8.2, 3.35) construction
  line L196 (8.2, 3.35) -> (8.2, -3.35) construction
  line L197 (8.2, -3.35) -> (5.8015, -3.35) construction
  line L198 (5.8015, -3.35) -> (3.0515, -6.1) construction
  line L199 (3.0515, -6.1) -> (-3.0515, -6.1) construction
  line L200 (-3.0515, -6.1) -> (-5.8015, -3.35) construction
  line L201 (-5.8015, -3.35) -> (-8.2, -3.35) construction
  line L202 (-8.2, -3.35) -> (-8.2, 3.35) construction
  line L203 (-8.2, 3.35) -> (-5.8015, 3.35) construction
  point P0 (0, 0)
  dimension "d13" = 5
  dimension "d15" = 5
  dimension "d16" = 5
  dimension "d17" = 5
extrude "Extrusion3" add sketch "Sketch5" along normal blind 5
extrude "Extrusion4" add sketch "Sketch2" against normal blind 30 contours L2 L1 A0 L0
properties part number "j4 for end effector" material "Aluminum 6061"
